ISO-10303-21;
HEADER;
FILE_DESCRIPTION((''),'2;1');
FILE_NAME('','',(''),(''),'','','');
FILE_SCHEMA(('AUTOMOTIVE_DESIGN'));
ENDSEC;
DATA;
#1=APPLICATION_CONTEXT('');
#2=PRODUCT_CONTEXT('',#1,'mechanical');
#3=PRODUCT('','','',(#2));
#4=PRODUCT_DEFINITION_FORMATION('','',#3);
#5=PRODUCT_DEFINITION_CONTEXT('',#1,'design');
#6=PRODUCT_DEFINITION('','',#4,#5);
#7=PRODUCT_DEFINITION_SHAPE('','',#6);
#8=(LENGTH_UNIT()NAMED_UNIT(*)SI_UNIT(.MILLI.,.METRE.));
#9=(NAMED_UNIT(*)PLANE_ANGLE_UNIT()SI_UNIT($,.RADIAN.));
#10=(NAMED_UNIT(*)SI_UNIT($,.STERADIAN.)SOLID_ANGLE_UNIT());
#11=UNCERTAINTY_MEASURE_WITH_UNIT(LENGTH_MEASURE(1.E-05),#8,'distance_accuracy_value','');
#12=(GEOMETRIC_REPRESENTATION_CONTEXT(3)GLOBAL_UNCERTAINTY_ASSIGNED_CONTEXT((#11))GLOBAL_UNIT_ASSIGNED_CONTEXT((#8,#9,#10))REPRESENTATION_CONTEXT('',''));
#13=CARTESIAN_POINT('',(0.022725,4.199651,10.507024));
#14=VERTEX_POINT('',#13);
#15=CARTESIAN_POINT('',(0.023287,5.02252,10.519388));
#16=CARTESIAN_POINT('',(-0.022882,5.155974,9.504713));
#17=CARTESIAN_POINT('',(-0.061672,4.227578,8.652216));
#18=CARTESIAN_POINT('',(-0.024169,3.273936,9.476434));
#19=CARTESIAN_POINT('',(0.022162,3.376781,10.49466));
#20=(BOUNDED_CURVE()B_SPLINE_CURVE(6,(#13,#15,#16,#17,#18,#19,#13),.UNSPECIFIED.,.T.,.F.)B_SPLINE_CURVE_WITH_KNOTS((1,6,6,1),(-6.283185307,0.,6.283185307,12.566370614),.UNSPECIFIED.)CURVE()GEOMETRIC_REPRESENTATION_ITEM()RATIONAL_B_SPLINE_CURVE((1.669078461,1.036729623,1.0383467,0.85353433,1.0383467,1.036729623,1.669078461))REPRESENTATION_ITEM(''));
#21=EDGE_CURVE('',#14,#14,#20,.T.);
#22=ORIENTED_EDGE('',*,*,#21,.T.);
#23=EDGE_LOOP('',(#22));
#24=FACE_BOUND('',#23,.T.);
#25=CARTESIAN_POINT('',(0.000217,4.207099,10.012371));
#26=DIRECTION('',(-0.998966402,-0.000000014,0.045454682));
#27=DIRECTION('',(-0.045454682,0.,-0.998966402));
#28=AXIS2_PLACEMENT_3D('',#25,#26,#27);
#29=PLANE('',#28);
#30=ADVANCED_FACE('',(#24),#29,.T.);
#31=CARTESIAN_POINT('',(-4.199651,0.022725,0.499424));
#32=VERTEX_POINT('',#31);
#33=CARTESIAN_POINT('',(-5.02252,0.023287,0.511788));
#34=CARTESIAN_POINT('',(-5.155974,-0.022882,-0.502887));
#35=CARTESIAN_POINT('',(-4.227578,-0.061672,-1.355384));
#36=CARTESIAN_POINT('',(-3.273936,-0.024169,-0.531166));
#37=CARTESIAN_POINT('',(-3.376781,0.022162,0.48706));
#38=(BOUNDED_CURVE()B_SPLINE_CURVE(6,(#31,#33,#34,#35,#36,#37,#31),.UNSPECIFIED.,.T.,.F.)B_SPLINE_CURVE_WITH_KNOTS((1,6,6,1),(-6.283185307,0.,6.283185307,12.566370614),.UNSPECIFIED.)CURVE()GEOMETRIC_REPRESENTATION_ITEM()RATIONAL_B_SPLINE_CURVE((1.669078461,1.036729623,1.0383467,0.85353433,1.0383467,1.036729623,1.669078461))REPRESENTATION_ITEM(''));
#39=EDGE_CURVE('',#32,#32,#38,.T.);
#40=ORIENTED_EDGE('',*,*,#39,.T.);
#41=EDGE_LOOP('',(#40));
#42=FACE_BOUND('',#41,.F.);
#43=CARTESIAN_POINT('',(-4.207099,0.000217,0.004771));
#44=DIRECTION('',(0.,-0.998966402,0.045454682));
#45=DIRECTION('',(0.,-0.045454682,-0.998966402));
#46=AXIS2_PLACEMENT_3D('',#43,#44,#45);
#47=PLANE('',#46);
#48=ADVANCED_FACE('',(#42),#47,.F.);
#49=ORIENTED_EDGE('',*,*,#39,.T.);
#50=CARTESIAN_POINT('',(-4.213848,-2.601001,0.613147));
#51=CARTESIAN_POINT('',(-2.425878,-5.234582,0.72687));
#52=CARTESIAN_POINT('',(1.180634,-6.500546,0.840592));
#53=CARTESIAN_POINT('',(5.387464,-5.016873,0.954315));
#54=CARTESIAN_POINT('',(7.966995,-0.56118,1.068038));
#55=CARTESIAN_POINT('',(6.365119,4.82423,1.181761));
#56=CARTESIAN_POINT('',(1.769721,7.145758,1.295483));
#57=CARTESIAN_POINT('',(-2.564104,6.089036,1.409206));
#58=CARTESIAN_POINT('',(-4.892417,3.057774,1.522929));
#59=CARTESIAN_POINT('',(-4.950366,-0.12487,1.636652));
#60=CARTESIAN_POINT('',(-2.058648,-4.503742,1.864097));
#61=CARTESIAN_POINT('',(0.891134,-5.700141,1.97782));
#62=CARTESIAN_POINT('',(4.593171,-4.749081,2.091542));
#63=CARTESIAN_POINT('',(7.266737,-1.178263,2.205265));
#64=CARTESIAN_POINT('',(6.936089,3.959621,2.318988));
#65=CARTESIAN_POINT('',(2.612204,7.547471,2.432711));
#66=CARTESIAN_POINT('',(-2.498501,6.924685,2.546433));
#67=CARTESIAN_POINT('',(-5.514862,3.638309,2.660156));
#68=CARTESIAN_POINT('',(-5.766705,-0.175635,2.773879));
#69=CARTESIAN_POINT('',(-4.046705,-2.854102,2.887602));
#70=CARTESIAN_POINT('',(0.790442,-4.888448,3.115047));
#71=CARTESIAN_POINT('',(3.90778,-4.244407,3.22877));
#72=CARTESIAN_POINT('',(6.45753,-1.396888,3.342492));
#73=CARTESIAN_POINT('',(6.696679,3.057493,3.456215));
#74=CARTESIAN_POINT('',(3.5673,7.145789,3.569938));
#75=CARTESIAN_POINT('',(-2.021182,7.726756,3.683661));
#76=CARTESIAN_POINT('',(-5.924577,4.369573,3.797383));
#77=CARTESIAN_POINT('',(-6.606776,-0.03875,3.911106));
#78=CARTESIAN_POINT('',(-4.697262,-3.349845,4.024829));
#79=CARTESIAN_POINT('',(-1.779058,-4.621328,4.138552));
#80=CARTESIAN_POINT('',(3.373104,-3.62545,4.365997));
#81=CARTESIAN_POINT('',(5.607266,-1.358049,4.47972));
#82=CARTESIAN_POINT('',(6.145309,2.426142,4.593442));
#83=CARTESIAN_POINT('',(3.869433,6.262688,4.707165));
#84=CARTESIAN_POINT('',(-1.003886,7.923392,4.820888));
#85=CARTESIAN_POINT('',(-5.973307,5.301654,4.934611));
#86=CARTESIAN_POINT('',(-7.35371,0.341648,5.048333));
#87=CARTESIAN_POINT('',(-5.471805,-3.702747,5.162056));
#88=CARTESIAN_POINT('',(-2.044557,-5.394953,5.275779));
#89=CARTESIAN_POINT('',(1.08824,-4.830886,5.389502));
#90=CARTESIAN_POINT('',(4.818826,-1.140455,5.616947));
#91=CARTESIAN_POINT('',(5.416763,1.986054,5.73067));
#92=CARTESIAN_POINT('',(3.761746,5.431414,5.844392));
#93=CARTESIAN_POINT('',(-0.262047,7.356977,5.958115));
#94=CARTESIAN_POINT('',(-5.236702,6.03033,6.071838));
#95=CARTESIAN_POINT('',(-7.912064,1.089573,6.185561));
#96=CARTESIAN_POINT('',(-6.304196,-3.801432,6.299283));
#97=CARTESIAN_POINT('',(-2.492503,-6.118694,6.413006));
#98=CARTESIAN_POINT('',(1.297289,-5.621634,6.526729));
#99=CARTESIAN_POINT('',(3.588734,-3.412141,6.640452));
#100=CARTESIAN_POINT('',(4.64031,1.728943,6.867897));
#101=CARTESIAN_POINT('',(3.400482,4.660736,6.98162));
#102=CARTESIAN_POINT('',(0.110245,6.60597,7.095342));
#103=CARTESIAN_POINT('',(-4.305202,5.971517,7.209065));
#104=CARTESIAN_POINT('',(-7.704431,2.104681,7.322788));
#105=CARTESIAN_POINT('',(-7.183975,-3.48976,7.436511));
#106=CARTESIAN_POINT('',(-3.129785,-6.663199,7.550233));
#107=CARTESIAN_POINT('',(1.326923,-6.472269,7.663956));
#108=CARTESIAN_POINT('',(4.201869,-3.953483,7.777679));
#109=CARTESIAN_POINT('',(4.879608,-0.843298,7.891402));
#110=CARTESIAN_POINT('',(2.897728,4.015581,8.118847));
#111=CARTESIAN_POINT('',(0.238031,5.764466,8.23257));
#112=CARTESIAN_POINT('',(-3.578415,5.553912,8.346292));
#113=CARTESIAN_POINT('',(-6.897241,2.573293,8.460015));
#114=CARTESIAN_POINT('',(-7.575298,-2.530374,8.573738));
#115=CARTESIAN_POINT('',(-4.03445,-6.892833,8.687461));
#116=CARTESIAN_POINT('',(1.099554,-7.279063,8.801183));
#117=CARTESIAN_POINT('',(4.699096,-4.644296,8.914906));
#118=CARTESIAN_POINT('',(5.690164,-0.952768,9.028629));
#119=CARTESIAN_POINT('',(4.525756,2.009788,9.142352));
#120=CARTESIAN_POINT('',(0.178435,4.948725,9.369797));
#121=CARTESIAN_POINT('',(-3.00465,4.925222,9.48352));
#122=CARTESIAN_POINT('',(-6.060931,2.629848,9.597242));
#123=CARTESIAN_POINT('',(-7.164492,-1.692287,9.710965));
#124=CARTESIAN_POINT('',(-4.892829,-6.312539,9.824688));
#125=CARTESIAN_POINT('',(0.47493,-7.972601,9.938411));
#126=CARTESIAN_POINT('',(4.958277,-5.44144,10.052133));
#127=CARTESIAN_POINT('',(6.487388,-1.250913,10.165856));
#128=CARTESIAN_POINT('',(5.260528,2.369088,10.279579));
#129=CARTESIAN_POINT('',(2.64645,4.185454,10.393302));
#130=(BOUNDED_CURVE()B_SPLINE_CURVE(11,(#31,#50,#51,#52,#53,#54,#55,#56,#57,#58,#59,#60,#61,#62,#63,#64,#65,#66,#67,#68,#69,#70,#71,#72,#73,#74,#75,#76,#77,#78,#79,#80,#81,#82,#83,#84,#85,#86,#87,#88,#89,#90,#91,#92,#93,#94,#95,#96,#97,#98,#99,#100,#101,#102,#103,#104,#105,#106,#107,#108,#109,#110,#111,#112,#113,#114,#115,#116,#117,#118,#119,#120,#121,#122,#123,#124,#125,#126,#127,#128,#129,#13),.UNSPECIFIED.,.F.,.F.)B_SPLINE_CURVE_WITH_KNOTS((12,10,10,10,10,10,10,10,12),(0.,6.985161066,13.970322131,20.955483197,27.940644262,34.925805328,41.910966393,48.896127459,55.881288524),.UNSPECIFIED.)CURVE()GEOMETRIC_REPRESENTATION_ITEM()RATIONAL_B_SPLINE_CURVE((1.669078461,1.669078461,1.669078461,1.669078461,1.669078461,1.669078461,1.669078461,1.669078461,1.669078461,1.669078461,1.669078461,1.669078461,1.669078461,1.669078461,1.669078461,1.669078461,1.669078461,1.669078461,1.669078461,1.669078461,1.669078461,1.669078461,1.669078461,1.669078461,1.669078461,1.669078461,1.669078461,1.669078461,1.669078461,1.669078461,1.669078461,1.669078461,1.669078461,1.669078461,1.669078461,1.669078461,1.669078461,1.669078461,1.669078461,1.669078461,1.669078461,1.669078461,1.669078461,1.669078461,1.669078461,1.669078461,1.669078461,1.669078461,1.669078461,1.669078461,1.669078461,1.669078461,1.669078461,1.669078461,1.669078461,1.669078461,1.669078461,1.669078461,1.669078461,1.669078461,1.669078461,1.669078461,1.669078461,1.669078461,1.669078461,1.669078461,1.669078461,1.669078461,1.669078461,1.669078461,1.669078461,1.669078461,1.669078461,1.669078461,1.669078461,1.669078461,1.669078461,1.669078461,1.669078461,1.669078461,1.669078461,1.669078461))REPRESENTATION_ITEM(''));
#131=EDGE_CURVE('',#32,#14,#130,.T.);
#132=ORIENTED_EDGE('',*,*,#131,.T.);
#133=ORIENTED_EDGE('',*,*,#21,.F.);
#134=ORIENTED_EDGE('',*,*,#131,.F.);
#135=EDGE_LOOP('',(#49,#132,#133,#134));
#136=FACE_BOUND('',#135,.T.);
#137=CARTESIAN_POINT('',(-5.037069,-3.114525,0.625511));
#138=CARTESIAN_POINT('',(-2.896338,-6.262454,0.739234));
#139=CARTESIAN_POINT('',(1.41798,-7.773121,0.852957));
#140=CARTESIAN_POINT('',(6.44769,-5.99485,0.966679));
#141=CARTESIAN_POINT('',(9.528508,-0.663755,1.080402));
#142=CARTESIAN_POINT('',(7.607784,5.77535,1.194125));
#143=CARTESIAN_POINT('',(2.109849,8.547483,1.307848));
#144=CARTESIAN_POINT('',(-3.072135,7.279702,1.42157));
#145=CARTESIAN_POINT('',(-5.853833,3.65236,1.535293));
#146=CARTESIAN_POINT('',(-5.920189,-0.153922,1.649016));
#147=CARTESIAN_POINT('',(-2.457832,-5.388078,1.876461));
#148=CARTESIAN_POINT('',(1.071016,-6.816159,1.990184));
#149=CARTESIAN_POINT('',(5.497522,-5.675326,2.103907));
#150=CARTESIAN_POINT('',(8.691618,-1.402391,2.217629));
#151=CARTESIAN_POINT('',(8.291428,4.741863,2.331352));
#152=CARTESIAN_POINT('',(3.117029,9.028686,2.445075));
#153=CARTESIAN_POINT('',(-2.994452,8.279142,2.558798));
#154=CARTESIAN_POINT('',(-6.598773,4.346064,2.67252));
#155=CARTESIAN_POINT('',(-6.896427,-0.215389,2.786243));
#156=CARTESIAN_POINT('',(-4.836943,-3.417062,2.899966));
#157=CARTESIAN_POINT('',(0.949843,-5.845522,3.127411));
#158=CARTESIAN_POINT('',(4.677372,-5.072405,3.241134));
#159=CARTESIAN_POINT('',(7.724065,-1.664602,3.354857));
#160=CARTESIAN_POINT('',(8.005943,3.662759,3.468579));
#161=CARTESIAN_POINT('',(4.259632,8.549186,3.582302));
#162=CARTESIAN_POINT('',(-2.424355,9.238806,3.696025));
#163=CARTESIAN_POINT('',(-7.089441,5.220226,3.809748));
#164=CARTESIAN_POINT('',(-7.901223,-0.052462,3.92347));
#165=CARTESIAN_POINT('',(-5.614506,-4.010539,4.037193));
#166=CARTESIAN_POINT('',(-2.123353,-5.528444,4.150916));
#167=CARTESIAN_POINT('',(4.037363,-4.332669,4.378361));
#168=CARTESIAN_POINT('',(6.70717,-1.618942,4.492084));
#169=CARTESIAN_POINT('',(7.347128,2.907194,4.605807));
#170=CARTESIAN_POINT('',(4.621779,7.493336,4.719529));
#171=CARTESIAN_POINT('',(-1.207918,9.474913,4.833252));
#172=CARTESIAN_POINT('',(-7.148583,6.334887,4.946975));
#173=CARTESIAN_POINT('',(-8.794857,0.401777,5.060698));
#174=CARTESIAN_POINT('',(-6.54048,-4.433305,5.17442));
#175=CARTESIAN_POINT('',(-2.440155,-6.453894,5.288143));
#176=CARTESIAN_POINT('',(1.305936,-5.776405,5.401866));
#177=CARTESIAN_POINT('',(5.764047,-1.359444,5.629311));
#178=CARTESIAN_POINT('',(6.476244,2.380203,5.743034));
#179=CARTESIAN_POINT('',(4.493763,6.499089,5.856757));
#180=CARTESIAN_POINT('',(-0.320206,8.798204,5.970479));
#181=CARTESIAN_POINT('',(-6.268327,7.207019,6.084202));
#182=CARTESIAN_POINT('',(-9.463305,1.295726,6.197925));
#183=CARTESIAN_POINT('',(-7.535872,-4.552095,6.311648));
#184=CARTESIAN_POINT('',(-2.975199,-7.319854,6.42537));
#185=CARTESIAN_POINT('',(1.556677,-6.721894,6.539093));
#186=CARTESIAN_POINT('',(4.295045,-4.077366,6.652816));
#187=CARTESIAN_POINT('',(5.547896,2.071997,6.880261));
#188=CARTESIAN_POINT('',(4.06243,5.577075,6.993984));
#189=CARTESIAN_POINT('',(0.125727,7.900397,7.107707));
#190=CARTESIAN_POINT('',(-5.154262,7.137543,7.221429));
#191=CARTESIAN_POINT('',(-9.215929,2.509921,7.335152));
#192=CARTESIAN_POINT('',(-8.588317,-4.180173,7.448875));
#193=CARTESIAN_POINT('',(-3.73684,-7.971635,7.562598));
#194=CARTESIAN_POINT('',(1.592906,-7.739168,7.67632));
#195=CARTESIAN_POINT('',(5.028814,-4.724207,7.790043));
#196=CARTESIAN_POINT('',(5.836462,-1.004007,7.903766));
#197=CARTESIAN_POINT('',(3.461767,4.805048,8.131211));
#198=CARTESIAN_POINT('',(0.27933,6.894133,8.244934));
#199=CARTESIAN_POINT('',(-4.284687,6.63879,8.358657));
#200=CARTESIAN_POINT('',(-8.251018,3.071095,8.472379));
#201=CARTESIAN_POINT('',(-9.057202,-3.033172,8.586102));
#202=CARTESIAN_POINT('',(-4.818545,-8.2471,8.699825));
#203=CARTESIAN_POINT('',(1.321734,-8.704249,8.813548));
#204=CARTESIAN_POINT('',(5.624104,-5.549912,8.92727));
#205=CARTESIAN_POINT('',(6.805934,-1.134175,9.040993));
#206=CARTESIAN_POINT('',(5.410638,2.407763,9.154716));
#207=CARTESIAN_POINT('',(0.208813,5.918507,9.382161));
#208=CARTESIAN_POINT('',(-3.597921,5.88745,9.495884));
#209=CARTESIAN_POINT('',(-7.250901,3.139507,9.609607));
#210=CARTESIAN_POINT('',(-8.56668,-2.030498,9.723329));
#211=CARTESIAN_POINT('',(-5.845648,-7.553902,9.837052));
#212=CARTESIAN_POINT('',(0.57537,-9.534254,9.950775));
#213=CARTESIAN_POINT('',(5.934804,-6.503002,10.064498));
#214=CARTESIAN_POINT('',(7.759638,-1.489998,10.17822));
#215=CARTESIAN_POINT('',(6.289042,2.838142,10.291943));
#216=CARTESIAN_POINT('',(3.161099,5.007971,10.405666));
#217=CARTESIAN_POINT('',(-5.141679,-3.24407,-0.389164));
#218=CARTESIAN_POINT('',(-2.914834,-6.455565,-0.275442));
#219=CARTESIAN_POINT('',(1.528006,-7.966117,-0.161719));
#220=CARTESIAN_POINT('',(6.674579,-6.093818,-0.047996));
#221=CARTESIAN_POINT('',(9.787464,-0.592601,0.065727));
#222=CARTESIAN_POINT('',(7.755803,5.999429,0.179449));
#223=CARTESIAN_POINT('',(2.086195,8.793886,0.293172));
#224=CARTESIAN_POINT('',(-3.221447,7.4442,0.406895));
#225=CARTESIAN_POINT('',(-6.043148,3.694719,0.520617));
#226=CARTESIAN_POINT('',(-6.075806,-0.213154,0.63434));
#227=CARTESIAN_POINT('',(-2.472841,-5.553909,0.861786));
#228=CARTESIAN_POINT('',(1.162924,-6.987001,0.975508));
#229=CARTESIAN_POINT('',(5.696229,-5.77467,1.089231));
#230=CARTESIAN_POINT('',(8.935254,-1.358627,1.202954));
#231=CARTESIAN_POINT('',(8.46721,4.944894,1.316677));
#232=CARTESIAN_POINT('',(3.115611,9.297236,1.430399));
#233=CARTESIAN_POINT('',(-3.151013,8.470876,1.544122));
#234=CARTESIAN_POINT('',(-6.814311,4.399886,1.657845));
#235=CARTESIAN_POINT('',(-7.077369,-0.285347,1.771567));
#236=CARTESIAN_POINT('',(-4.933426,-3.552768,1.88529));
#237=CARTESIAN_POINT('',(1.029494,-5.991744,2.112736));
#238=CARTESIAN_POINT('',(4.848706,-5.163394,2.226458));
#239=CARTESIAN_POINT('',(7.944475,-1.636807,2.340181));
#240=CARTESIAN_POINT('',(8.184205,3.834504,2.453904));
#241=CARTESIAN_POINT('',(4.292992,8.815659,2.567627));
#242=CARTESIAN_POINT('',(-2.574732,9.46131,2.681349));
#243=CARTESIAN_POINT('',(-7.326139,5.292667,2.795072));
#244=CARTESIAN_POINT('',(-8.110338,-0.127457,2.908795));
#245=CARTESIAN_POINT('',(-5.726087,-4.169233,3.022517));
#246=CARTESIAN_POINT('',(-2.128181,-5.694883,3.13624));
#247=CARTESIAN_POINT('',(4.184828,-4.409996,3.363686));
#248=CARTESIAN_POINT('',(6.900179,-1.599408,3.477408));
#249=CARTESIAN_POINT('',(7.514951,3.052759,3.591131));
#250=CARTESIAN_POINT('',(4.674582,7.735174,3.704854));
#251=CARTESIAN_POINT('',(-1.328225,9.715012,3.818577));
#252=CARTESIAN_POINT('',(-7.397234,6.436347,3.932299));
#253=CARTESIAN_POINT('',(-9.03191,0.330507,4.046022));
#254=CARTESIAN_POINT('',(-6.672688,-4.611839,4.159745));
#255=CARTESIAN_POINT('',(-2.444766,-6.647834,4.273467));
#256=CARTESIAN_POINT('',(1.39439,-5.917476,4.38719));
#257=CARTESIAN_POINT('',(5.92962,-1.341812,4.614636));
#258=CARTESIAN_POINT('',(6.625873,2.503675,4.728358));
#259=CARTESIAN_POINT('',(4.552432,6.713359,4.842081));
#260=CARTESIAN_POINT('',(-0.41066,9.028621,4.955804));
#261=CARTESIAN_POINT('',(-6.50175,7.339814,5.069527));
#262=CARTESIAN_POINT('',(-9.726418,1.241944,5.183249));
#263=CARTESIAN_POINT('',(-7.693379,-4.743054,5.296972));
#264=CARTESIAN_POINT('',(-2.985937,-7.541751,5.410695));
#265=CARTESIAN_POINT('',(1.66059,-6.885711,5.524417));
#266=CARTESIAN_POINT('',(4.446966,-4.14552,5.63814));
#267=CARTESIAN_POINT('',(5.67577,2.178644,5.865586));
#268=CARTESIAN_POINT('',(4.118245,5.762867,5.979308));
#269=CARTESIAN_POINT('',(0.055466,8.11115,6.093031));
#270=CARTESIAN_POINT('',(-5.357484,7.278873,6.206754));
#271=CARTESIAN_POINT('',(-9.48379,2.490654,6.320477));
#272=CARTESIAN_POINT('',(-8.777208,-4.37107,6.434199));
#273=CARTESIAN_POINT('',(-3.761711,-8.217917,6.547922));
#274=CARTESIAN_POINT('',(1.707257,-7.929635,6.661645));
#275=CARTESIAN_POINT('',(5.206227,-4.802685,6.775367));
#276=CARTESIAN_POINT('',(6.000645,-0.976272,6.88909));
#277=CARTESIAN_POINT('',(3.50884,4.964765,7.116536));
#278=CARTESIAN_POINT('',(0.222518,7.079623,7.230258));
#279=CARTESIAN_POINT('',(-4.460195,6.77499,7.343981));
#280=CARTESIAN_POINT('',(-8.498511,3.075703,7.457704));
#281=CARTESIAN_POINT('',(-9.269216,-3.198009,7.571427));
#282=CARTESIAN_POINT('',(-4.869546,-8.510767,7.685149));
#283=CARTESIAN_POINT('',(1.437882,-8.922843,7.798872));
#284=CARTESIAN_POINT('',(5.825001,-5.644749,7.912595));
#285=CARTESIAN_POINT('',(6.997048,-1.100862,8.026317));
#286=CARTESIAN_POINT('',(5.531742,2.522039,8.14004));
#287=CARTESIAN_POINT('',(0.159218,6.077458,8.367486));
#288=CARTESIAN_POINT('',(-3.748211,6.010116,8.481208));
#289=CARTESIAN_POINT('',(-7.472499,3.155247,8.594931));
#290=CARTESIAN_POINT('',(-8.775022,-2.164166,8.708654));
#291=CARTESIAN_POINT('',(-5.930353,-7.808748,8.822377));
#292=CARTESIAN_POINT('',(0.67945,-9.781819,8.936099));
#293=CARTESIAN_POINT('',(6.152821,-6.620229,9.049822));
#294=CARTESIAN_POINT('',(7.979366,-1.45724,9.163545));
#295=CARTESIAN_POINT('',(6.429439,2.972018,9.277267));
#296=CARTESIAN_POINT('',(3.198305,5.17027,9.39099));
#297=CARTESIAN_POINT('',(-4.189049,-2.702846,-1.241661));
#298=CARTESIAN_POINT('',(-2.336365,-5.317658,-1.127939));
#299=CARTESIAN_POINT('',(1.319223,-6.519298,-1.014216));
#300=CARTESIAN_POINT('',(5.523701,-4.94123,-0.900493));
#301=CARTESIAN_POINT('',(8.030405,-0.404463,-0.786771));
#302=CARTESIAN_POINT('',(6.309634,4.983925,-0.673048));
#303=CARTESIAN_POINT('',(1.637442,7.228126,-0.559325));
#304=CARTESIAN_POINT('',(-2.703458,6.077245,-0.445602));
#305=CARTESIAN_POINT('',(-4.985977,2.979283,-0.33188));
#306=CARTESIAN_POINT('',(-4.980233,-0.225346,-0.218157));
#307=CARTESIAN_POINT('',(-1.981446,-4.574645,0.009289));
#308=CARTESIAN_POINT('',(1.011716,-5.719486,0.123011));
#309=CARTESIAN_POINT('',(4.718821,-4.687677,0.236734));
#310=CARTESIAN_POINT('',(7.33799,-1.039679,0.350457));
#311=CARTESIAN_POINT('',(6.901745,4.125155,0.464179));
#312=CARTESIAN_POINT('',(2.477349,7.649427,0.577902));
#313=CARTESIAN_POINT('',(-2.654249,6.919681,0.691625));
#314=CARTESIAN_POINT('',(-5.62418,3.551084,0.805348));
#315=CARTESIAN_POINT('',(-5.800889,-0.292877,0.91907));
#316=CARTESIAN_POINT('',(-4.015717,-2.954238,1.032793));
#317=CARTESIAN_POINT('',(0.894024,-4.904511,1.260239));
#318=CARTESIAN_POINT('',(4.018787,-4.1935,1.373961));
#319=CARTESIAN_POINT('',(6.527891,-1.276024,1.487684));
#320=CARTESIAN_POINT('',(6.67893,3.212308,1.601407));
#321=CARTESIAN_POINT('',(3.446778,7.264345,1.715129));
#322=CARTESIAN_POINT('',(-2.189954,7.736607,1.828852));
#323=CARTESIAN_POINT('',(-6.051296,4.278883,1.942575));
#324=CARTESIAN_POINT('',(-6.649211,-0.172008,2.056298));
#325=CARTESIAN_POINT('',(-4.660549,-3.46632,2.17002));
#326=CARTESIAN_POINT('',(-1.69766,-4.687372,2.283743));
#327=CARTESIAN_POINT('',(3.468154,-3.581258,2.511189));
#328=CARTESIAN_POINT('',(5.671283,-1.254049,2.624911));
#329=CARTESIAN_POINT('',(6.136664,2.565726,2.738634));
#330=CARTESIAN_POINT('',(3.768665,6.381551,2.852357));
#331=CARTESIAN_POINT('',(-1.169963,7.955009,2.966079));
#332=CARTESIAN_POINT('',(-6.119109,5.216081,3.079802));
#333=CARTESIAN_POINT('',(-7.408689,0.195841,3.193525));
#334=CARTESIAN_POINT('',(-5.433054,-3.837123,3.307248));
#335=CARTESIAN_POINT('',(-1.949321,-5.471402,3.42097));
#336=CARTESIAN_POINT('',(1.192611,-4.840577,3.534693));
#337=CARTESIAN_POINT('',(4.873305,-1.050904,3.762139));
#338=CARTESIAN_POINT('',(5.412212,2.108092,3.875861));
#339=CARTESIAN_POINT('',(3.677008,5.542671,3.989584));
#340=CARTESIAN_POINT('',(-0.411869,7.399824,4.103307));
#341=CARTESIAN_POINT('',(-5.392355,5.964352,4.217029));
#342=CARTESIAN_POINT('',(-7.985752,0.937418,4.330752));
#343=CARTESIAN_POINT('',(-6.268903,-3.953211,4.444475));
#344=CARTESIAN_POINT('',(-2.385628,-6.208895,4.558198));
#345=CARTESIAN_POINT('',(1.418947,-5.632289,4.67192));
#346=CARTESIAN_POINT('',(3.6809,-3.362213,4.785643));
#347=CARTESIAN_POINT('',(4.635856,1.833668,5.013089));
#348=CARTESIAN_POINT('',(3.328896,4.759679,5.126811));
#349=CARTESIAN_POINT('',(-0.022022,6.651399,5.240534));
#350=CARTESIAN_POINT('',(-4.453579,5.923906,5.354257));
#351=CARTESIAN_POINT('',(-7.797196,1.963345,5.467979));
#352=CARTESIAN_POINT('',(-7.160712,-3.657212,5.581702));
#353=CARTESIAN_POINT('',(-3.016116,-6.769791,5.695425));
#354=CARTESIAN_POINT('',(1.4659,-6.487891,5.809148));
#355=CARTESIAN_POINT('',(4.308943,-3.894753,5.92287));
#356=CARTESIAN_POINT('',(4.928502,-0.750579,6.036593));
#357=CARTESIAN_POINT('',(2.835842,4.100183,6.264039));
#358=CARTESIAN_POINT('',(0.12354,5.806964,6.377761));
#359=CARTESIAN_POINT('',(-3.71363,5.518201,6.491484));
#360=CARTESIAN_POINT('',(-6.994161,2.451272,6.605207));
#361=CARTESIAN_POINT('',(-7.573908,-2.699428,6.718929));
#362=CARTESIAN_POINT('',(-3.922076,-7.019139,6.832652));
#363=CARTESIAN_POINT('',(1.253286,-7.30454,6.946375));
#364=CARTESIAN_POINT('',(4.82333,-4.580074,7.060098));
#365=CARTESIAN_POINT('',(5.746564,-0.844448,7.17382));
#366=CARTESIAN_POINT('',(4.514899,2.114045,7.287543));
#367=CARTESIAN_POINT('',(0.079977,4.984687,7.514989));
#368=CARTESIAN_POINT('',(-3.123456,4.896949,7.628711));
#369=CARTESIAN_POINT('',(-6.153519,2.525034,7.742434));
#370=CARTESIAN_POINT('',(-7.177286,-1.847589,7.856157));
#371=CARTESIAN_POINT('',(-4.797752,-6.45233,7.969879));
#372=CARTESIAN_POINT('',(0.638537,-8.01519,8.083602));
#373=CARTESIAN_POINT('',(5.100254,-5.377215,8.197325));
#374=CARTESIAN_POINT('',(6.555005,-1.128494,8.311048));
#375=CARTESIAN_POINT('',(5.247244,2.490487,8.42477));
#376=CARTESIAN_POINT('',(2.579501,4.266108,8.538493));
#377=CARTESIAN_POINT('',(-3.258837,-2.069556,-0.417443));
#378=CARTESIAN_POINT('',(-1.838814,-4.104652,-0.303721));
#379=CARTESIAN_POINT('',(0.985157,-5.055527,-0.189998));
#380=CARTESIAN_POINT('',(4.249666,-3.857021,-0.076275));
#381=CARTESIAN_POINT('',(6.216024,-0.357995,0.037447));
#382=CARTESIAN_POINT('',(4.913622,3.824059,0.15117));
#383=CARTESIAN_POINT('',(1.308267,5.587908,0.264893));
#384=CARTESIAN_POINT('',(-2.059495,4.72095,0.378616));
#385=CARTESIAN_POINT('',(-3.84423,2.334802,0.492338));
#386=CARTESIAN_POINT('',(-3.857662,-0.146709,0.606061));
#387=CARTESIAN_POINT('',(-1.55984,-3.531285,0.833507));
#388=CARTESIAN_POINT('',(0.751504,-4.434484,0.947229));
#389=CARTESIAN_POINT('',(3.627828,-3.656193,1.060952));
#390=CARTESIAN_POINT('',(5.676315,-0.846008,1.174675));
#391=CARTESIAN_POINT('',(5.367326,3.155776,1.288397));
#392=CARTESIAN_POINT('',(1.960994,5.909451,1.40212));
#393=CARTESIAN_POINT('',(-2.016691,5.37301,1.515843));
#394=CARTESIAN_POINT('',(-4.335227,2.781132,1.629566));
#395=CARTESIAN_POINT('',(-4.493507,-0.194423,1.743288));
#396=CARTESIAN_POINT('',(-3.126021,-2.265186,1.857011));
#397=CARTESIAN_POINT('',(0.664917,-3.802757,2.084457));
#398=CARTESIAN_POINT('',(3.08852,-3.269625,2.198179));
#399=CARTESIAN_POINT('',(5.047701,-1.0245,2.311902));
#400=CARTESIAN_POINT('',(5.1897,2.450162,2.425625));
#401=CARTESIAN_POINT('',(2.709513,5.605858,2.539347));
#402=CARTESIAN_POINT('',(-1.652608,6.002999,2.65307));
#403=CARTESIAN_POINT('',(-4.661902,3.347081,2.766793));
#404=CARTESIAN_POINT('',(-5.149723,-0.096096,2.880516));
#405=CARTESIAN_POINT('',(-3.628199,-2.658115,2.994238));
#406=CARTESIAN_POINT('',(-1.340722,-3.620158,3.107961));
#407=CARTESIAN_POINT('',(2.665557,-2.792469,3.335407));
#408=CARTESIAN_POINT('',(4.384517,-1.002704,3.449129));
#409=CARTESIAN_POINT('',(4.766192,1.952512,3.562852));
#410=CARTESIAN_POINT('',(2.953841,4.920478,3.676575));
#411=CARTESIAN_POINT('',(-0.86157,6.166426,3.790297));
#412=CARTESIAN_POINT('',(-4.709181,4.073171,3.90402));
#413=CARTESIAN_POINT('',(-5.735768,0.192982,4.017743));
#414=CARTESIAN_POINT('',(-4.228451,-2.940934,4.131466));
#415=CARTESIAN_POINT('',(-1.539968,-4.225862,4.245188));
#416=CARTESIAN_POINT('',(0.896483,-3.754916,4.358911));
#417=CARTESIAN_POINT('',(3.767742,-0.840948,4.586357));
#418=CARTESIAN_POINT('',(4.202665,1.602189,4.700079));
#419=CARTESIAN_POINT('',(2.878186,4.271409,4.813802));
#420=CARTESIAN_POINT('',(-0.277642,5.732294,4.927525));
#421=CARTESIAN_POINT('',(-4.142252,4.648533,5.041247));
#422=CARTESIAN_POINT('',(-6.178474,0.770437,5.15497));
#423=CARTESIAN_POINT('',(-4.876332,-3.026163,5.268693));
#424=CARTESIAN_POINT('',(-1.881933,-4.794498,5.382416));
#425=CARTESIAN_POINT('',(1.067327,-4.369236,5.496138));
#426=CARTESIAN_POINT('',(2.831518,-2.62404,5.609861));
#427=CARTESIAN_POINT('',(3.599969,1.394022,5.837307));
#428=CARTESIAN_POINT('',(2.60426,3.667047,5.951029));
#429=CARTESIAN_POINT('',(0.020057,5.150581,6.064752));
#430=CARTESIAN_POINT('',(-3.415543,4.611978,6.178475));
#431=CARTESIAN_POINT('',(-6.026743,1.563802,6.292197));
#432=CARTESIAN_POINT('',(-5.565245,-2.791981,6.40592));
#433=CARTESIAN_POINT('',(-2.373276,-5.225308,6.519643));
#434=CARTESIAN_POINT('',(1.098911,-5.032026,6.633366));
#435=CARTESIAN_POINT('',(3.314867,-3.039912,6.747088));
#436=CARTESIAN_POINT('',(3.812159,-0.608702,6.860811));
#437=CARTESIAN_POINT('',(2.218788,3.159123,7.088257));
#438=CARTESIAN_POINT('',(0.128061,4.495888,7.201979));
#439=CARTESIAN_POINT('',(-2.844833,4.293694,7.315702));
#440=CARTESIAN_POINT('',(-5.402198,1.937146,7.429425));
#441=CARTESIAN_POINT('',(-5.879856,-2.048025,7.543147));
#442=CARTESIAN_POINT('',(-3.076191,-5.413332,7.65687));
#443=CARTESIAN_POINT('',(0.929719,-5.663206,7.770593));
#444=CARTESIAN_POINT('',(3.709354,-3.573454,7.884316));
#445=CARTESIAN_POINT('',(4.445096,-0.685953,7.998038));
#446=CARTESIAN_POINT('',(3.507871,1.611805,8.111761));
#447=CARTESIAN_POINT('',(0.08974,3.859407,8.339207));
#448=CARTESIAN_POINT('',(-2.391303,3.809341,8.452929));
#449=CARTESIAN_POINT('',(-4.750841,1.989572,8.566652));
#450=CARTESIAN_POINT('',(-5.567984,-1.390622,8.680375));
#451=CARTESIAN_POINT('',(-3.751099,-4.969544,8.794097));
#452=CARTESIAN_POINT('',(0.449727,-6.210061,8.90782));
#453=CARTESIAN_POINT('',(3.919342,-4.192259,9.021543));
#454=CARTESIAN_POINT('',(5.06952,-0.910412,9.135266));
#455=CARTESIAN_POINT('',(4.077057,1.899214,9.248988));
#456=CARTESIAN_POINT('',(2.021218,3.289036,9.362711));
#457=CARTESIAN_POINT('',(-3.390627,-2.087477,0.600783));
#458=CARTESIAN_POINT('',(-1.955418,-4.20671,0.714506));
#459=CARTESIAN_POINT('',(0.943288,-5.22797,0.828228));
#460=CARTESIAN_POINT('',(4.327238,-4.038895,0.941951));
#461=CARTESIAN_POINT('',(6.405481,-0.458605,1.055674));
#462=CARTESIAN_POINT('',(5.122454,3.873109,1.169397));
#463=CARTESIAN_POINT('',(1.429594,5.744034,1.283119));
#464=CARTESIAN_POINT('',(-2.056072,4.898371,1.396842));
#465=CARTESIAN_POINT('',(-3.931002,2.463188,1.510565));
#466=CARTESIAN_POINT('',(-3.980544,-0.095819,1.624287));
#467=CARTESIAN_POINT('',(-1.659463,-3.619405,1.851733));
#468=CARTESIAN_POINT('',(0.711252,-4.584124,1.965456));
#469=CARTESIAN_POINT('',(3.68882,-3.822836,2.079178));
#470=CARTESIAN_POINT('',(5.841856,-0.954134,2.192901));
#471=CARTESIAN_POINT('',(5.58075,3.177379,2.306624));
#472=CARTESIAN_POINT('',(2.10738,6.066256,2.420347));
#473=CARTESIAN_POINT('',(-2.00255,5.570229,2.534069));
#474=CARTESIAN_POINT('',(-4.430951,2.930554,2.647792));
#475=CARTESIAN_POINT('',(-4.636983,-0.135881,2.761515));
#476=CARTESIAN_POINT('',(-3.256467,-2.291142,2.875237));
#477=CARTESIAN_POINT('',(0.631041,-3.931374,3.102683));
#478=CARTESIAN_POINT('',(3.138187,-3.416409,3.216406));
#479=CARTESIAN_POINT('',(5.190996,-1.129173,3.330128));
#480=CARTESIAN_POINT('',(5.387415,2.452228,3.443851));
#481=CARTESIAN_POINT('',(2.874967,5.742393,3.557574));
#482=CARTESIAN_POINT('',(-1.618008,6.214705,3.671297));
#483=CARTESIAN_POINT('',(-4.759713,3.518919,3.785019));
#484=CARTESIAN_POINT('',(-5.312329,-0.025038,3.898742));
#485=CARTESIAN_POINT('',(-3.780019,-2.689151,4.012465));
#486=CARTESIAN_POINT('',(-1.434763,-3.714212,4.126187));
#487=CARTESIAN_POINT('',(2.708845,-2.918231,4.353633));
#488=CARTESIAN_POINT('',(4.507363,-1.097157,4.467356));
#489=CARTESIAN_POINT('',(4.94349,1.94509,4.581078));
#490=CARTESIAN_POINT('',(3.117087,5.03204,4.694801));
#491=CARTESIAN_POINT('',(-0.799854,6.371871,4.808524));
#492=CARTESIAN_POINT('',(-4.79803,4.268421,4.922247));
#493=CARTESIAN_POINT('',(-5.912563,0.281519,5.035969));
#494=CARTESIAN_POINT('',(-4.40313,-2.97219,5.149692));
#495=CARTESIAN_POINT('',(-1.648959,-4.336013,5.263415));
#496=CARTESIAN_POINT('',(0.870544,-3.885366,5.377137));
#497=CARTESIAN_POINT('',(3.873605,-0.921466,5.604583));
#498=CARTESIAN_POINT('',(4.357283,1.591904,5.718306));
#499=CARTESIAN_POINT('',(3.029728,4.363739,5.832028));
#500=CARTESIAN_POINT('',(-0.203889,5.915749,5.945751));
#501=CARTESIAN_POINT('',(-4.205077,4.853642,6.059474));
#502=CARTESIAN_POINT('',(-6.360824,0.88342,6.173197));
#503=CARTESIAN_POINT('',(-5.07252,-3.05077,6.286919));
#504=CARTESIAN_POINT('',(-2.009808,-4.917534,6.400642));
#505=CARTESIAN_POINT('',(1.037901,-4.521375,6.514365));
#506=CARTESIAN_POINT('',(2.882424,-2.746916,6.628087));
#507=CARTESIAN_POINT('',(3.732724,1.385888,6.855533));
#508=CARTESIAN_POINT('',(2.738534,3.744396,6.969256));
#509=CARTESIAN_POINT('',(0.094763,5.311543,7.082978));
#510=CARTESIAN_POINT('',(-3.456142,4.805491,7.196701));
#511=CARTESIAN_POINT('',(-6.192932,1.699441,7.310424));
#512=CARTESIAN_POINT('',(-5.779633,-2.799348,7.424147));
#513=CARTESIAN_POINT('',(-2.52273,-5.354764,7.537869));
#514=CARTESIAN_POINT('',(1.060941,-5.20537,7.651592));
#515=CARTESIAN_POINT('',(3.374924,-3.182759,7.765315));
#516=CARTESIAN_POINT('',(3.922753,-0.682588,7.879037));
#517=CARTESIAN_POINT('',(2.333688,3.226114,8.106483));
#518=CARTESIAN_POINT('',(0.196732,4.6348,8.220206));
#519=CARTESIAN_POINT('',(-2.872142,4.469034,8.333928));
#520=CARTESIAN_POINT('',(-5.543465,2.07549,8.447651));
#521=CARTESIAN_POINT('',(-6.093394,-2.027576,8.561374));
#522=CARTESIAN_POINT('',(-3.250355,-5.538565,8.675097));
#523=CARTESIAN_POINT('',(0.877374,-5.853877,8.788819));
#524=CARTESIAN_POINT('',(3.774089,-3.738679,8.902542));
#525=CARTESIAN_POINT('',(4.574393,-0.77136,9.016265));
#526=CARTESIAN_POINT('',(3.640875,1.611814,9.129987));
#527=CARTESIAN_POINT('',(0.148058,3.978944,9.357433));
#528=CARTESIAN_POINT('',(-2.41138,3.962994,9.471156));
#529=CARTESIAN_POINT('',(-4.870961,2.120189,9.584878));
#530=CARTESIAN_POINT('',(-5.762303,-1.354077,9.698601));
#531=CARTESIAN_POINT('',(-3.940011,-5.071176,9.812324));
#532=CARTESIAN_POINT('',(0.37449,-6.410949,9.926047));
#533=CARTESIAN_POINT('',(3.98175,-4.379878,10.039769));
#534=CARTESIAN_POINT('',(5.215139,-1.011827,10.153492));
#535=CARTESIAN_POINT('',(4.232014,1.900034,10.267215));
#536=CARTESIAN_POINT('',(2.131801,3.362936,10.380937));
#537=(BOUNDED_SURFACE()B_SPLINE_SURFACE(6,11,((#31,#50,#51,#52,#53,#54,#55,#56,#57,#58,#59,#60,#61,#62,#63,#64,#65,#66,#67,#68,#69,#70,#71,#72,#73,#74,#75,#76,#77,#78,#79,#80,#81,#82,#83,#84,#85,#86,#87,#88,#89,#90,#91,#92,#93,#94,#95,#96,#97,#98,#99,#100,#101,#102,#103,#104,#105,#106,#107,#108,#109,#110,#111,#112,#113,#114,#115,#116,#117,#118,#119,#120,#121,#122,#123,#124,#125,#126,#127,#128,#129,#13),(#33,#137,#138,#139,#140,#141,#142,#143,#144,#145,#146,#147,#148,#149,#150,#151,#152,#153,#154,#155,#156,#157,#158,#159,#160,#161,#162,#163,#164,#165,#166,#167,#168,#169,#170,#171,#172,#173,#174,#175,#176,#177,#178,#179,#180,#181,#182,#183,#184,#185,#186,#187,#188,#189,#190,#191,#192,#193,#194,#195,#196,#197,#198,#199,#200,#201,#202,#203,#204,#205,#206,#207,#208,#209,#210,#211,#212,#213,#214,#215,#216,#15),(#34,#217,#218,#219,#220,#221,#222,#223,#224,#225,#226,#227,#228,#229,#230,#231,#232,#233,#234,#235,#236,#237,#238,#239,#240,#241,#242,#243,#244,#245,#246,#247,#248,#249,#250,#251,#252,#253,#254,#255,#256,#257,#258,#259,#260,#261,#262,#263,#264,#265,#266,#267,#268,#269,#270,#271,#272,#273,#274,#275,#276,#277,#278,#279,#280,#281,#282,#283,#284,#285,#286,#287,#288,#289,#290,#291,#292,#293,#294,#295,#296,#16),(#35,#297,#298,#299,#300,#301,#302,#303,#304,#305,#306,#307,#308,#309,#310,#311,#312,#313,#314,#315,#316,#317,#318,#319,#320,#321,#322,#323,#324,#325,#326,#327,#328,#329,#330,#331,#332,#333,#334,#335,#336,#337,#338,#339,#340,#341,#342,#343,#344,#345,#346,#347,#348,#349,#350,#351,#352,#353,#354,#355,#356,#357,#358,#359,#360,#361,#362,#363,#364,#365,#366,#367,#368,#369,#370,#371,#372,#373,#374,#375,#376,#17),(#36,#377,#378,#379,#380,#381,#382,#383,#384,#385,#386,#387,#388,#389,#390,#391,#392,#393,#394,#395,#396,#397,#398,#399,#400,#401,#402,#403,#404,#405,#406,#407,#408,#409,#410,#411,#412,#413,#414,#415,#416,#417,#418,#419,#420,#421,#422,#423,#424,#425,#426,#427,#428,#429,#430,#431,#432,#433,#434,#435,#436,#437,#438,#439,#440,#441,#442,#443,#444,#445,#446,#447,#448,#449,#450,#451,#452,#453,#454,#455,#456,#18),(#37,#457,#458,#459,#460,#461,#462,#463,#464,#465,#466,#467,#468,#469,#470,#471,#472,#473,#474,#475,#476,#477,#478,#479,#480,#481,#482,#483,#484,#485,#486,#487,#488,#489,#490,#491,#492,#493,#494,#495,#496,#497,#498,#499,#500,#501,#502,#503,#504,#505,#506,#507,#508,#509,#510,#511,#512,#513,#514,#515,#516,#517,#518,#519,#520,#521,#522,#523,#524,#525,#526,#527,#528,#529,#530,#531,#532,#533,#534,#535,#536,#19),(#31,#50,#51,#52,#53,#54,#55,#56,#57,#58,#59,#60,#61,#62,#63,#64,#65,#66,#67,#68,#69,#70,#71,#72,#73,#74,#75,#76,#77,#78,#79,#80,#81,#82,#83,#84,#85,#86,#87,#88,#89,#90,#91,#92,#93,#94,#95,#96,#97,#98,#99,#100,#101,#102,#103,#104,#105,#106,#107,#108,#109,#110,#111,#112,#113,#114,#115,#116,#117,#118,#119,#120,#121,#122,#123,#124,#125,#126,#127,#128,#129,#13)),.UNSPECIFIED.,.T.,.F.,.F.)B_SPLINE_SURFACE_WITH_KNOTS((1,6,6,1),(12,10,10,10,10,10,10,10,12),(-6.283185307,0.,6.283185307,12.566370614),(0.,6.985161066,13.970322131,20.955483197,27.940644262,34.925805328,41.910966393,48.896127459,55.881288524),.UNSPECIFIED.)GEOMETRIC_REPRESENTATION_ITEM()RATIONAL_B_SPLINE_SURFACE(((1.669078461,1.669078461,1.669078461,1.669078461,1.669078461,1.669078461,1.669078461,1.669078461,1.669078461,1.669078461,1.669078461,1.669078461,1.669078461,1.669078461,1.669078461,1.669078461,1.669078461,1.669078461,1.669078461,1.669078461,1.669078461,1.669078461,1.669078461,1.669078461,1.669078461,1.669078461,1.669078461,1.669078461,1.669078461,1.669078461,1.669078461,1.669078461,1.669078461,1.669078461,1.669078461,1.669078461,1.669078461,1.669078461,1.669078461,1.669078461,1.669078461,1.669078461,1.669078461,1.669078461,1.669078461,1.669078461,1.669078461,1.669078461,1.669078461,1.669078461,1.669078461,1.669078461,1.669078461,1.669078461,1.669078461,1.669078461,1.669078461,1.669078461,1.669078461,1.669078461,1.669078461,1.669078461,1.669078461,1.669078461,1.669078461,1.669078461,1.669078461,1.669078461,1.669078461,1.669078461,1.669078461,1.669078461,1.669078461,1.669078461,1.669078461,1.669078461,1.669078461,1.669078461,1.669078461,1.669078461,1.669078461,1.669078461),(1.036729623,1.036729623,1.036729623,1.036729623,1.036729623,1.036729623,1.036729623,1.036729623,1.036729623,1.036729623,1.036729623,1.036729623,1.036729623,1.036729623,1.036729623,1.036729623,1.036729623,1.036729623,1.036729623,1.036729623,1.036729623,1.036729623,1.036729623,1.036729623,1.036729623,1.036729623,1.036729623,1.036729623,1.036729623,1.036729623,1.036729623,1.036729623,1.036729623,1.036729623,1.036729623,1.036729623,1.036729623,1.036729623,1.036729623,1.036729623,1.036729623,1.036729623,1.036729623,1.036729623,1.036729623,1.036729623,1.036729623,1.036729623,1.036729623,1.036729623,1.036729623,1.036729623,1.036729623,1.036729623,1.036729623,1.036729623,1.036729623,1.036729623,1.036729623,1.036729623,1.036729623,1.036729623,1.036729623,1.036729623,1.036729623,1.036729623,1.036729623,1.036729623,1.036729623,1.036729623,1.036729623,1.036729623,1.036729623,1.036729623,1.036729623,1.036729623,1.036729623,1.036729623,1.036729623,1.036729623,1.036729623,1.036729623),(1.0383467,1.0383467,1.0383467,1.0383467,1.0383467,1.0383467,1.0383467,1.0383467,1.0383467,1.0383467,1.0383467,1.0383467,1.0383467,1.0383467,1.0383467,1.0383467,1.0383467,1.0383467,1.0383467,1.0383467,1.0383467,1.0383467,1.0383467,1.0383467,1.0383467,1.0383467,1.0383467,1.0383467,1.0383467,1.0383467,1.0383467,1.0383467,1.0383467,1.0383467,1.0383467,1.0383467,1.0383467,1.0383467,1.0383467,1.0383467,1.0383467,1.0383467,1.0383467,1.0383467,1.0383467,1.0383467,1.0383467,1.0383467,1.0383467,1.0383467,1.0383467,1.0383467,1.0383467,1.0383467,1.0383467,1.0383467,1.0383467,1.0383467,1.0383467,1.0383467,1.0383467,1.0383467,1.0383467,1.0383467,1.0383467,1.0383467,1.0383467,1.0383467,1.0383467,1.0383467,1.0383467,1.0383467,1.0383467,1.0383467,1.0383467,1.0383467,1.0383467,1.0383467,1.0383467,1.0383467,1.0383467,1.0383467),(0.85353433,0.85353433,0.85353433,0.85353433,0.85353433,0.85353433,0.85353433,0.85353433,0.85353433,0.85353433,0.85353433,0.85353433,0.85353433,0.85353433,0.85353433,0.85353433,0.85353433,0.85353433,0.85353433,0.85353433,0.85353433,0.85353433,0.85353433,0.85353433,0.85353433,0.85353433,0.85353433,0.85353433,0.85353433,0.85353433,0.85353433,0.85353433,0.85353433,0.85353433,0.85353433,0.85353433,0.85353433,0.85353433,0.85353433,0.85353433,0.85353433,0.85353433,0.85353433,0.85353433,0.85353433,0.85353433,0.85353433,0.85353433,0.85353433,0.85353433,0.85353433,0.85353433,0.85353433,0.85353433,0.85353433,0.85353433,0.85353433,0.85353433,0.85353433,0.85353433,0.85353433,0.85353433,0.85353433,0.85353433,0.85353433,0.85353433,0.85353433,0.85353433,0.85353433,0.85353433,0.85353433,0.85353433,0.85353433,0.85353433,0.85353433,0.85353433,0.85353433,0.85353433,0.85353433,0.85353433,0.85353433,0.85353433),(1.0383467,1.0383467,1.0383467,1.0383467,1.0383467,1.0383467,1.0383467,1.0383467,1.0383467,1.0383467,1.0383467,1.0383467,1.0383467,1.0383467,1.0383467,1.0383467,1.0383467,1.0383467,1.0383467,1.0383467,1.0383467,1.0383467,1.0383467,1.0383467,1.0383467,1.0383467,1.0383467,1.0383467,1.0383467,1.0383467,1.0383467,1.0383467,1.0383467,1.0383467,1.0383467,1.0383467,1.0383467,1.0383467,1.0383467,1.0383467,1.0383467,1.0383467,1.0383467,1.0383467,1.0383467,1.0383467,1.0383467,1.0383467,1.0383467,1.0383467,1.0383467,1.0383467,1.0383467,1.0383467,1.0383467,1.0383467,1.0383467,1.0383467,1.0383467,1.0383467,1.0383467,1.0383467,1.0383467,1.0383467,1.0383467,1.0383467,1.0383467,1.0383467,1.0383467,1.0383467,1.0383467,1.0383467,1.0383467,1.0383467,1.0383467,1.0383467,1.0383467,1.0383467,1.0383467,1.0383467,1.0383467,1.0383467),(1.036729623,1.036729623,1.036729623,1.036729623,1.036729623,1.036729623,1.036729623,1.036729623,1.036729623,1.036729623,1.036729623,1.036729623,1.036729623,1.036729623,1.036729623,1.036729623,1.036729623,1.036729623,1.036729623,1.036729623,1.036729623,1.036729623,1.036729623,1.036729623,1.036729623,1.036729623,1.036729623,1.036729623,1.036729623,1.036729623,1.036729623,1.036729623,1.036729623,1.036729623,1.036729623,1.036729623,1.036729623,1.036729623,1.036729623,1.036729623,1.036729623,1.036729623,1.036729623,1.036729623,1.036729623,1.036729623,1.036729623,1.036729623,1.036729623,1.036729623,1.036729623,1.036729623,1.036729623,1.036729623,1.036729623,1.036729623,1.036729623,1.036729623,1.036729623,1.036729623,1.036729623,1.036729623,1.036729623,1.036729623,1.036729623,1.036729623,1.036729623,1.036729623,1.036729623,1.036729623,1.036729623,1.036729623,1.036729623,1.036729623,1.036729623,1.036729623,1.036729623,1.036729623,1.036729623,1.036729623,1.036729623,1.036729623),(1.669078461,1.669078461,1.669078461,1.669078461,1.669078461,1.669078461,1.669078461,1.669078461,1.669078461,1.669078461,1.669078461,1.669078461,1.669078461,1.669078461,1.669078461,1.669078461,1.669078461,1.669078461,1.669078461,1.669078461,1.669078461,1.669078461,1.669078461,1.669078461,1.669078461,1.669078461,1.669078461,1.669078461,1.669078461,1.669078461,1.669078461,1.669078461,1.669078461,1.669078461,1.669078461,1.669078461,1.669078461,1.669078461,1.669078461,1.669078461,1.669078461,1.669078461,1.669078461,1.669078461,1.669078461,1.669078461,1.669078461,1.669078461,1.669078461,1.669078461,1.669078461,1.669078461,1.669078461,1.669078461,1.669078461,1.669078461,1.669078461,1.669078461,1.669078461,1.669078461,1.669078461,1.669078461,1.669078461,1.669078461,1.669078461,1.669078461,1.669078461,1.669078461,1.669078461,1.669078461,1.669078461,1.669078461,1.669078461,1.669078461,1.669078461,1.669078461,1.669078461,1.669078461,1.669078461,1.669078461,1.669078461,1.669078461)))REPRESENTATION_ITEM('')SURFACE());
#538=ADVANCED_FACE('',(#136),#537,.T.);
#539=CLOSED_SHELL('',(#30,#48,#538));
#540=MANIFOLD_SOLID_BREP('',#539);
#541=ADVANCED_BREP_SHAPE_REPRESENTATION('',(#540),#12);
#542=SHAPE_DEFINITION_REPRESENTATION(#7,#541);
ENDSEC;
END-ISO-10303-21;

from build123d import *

# Parameters (mm, degrees)
SWEEP1_PITCH       = 1.143725714
SWEEP1_HEIGHT      = 10.0076
SWEEP1_RADIUS      = 4.0005
SWEEP1_START_ANGLE = -180
SKETCH2_R          = 0.4953


with BuildPart() as part:
    # Sweep1: sweep along a helix
    with BuildLine() as sweep1_path:
        add(Helix(SWEEP1_PITCH, SWEEP1_HEIGHT, SWEEP1_RADIUS, center=(0, 0, 0), direction=(0, 0, 1), mode=Mode.PRIVATE).rotate(Axis((0, 0, 0), (0, 0, 1)), SWEEP1_START_ANGLE))
    # Sketch2 → Sweep1 (sweep)
    with BuildSketch(Plane(origin=(0, 4.0005, 10.0076), x_dir=(0.04544954106397384, -0.015039595718082556, 0.9988534175632133), z_dir=(-0.9989664017777142, -1.297879989245465e-13, 0.04545468203922036))):
        with Locations((0.001589314, 0.206647084)):
            Circle(SKETCH2_R)
    sweep(path=sweep1_path.line, is_frenet=True)


solid = part.part
